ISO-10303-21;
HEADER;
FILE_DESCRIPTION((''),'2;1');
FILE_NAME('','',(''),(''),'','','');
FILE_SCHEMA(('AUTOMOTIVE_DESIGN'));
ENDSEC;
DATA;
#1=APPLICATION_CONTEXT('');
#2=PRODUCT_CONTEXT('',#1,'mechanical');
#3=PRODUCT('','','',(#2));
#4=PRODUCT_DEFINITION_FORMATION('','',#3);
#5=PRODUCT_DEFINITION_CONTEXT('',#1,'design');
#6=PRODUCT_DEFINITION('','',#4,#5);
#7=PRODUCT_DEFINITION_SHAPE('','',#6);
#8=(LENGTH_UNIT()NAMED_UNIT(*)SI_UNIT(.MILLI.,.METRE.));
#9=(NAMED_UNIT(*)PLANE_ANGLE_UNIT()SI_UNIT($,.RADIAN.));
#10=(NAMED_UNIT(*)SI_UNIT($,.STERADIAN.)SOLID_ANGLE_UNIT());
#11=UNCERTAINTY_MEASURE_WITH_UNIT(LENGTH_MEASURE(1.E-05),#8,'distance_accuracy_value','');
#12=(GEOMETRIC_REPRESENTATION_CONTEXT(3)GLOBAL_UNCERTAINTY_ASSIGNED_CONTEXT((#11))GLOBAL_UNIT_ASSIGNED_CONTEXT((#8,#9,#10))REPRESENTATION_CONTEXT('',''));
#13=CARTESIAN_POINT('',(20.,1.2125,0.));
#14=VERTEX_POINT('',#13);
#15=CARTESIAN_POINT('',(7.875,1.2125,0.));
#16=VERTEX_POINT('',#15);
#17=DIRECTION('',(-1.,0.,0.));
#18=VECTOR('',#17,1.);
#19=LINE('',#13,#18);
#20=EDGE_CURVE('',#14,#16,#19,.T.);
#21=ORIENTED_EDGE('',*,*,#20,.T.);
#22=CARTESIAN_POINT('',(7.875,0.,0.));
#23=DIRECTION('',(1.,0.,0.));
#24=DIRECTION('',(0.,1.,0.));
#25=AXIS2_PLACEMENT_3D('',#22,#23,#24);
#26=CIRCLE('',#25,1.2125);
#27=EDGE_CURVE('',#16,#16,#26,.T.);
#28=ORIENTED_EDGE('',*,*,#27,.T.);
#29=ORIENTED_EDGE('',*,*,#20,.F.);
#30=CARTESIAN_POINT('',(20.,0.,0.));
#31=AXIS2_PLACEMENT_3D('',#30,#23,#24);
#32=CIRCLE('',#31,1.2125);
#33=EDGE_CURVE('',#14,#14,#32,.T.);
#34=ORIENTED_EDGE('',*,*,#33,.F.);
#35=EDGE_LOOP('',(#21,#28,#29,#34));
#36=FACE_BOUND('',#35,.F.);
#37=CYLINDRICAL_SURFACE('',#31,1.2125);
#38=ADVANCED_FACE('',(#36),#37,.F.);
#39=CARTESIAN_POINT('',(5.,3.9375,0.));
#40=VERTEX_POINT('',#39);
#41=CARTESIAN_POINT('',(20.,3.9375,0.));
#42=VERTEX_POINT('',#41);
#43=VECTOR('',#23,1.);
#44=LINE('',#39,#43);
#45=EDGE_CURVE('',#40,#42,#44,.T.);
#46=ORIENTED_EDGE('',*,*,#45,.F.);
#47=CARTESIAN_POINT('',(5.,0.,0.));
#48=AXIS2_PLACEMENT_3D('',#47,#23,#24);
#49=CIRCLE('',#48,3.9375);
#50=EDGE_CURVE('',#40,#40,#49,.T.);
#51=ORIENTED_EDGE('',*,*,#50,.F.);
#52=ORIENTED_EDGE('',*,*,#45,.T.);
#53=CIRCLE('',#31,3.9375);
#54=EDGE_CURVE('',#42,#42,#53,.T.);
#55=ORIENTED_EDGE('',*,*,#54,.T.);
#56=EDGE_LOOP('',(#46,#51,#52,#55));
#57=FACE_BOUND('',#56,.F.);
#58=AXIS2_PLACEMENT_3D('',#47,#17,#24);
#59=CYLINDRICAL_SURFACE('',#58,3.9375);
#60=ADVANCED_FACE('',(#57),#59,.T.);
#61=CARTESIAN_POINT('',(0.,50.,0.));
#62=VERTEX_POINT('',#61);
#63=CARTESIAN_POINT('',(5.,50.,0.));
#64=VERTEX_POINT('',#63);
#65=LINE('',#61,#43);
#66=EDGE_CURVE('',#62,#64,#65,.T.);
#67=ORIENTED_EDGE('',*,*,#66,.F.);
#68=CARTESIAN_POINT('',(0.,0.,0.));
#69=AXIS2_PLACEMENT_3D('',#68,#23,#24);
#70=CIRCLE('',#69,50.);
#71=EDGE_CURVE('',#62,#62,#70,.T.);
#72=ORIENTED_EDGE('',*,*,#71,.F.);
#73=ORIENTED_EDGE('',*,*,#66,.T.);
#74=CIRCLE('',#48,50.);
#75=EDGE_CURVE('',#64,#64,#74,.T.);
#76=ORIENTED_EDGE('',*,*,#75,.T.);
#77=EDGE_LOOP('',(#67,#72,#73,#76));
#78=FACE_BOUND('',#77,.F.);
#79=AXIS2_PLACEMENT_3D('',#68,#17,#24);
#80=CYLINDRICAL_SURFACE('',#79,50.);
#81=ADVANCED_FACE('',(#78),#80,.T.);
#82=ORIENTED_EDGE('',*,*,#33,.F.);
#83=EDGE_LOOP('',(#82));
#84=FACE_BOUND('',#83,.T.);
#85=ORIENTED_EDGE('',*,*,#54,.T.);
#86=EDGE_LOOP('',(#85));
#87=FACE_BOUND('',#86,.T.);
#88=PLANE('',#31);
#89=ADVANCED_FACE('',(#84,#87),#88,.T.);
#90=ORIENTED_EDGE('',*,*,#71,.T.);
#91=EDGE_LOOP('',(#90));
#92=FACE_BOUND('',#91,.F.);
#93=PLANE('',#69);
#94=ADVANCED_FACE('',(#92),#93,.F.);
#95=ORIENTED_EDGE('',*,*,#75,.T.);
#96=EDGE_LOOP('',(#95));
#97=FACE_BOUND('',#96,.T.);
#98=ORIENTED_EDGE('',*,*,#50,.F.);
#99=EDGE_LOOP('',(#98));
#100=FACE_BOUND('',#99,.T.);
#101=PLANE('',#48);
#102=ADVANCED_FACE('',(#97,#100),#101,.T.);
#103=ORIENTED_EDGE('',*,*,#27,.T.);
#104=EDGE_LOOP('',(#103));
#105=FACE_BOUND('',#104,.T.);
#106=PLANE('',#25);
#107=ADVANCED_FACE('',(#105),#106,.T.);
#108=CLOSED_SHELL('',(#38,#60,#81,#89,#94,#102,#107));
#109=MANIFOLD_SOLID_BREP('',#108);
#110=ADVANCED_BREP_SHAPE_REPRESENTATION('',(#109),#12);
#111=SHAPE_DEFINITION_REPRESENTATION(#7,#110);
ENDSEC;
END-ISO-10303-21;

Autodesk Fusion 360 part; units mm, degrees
sketch "Sketch1" plane through (0, 0, 0) normal (1, 0, 0) x (0, 1, 0)
  circle A0 centre (0, 0) radius 50
  dimension "d1" = 100
extrude "Extrude1" add sketch "Sketch1" along normal blind 5
sketch "Sketch2" plane through (5, 0, 0) normal (1, 0, 0) x (0, 1, 0)
  circle A0 centre (0, 0) radius 50
  circle A1 centre (0, 0) radius 3.9375
  dimension "d4" = 7.875
extrude "Extrude3" add sketch "Sketch2" along normal blind 15 contours A1
sketch "Sketch3" plane through (20, 0, 0) normal (1, 0, 0) x (0, 1, 0)
  circle A0 centre (0, 0) radius 3.9375
  circle A1 centre (0, 0) radius 1.2125
  dimension "d10" = 2.425
extrude "Extrude4" cut sketch "Sketch3" against normal blind 12.125 contours A1
sketch "Sketch4" plane through (5, 0, 0) normal (1, 0, 0) x (0, 1, 0)
  circle A0 centre (0, 0) radius 50
  line L0 (-33.6779, 28.9291) -> (-27.8766, 32.541)
  line L1 (-27.8766, 32.541) -> (-24.8659, 32.541)
  spline S0 degree 3 poles (-24.8659, 32.541) (-24.773, 32.541) (-24.6881, 32.4676) (-24.6881, 32.363) knots 0 0 0 0 1 1 1 1
  spline S1 degree 3 poles (-24.6881, 32.363) (-24.6881, 32.2781) (-24.7268, 32.2432) (-24.773, 32.2162) knots 0 0 0 0 1 1 1 1
  line L2 (-24.773, 32.2162) -> (-27.6216, 30.5068)
  spline S2 degree 3 poles (-27.6216, 30.5068) (-27.8071, 30.3947) (-27.8728, 30.1742) (-27.8728, 30.008) knots 0 0 0 0 1 1 1 1
  line L3 (-27.8728, 30.008) -> (-27.8766, 28.9291)
  line L4 (-27.8766, 28.9291) -> (-24.2551, 28.9291)
  line L5 (-24.2551, 28.9291) -> (-24.2551, 35.1902)
  spline S3 degree 3 poles (-24.2551, 35.1902) (-24.2551, 35.31) (-24.348, 35.4144) (-24.4871, 35.4144) knots 0 0 0 0 1 1 1 1
  line L6 (-24.4871, 35.4144) -> (-27.9423, 35.4144)
  line L7 (-27.9423, 35.4144) -> (-33.7281, 31.8179)
  line L8 (-33.7281, 31.8179) -> (-33.7281, 28.9291)
  line L9 (-33.7281, 28.9291) -> (-33.6779, 28.9291)
  line L10 (13.8915, 28.9289) -> (19.1092, 28.9289)
  line L11 (19.1092, 28.9289) -> (19.1092, 30.3328)
  line L12 (19.1092, 30.3328) -> (15.5457, 30.3328)
  line L13 (15.5457, 30.3328) -> (15.5457, 31.5083)
  line L14 (15.5457, 31.5083) -> (18.4135, 31.5083)
  line L15 (18.4135, 31.5083) -> (18.4135, 32.9161)
  line L16 (18.4135, 32.9161) -> (15.5457, 32.9161)
  line L17 (15.5457, 32.9161) -> (15.5457, 34.0104)
  line L18 (15.5457, 34.0104) -> (19.1092, 34.0104)
  line L19 (19.1092, 34.0104) -> (19.1092, 35.4144)
  line L20 (19.1092, 35.4144) -> (13.8915, 35.4144)
  line L21 (13.8915, 35.4144) -> (13.8915, 28.9289)
  line L22 (-18.8945, 35.4144) -> (-21.3798, 28.9289)
  line L23 (-21.3798, 28.9289) -> (-19.6714, 28.9289)
  line L24 (-19.6714, 28.9289) -> (-19.2386, 30.1433)
  line L25 (-19.2386, 30.1433) -> (-16.4635, 30.1433)
  line L26 (-16.4635, 30.1433) -> (-16.0384, 28.9289)
  line L27 (-16.0384, 28.9289) -> (-14.2721, 28.9289)
  line L28 (-14.2721, 28.9289) -> (-16.7881, 35.4144)
  line L29 (-16.7881, 35.4144) -> (-18.8945, 35.4144)
  line L30 (-18.7477, 31.5238) -> (-17.8394, 34.0646)
  line L31 (-17.8394, 34.0646) -> (-16.9467, 31.5238)
  line L32 (-16.9467, 31.5238) -> (-18.7477, 31.5238)
  line L33 (-7.1839, 34.0104) -> (-5.093, 34.0104)
  line L34 (-5.093, 34.0104) -> (-5.093, 28.9289)
  line L35 (-5.093, 28.9289) -> (-3.4426, 28.9289)
  line L36 (-3.4426, 28.9289) -> (-3.4426, 34.0104)
  line L37 (-3.4426, 34.0104) -> (-1.3594, 34.0104)
  line L38 (-1.3594, 34.0104) -> (-1.3594, 35.4144)
  line L39 (-1.3594, 35.4144) -> (-7.1839, 35.4144)
  line L40 (-7.1839, 35.4144) -> (-7.1839, 34.0104)
  spline S4 degree 3 poles (-9.5878, 31.4272) (-9.5878, 30.584) (-10.1057, 30.2437) (-10.9908, 30.2437) knots 0 0 0 0 1 1 1 1
  spline S5 degree 3 poles (-10.9908, 30.2437) (-11.8488, 30.2437) (-12.4092, 30.5995) (-12.4092, 31.4272) knots 0 0 0 0 1 1 1 1
  line L41 (-12.4092, 31.4272) -> (-12.4092, 35.4376)
  line L42 (-12.4092, 35.4376) -> (-14.0634, 35.4376)
  line L43 (-14.0634, 35.4376) -> (-14.0634, 31.2377)
  spline S6 degree 3 poles (-14.0634, 31.2377) (-14.0634, 29.366) (-12.3937, 28.782) (-10.9947, 28.782) knots 0 0 0 0 1 1 1 1
  spline S7 degree 3 poles (-10.9947, 28.782) (-9.6033, 28.782) (-7.9414, 29.366) (-7.9414, 31.2377) knots 0 0 0 0 1 1 1 1
  line L44 (-7.9414, 31.2377) -> (-7.9414, 35.4376)
  line L45 (-7.9414, 35.4376) -> (-9.5955, 35.4376)
  line L46 (-9.5955, 35.4376) -> (-9.5955, 31.4272)
  line L47 (-9.5955, 31.4272) -> (-9.5878, 31.4272)
  line L48 (32.7484, 35.4144) -> (30.7811, 35.4144)
  line L49 (30.7811, 35.4144) -> (28.4237, 32.7807)
  line L50 (28.4237, 32.7807) -> (28.4237, 35.4144)
  line L51 (28.4237, 35.4144) -> (26.7693, 35.4144)
  line L52 (26.7693, 35.4144) -> (26.7771, 28.9289)
  line L53 (26.7771, 28.9289) -> (28.4237, 28.9289)
  line L54 (28.4237, 28.9289) -> (28.4237, 31.3923)
  line L55 (28.4237, 31.3923) -> (30.6575, 28.9289)
  line L56 (30.6575, 28.9289) -> (32.7484, 28.9289)
  line L57 (32.7484, 28.9289) -> (29.7338, 32.131)
  line L58 (29.7338, 32.131) -> (32.7484, 35.4144)
  line L59 (10.0033, 35.4144) -> (6.9732, 35.4144)
  line L60 (6.9732, 35.4144) -> (6.9732, 28.9289)
  line L61 (6.9732, 28.9289) -> (10.0033, 28.9289)
  spline S8 degree 3 poles (10.0033, 28.9289) (12.3262, 28.9289) (12.9678, 29.7952) (12.9678, 32.2199) knots 0 0 0 0 1 1 1 1
  spline S9 degree 3 poles (12.9678, 32.2199) (12.9678, 34.4978) (12.3532, 35.4144) (10.0033, 35.4144) knots 0 0 0 0 1 1 1 1
  line L62 (9.9377, 30.3328) -> (8.6236, 30.3328)
  line L63 (8.6236, 30.3328) -> (8.6236, 34.0104)
  line L64 (8.6236, 34.0104) -> (9.9377, 34.0104)
  spline S10 degree 3 poles (9.9377, 34.0104) (10.9735, 34.0104) (11.2827, 33.7283) (11.2827, 32.2199) knots 0 0 0 0 1 1 1 1
  spline S11 degree 3 poles (11.2827, 32.2199) (11.2827, 30.8432) (10.9348, 30.3328) (9.9377, 30.3328) knots 0 0 0 0 1 1 1 1
  line L65 (24.1065, 32.7458) -> (22.5992, 32.9161)
  spline S12 degree 3 poles (22.5992, 32.9161) (21.7179, 33.0127) (21.4976, 33.2332) (21.4976, 33.531) knots 0 0 0 0 1 1 1 1
  spline S13 degree 3 poles (21.4976, 33.531) (21.4976, 33.8636) (21.9499, 34.1613) (22.8349, 34.1613) knots 0 0 0 0 1 1 1 1
  spline S14 degree 3 poles (22.8349, 34.1613) (23.6852, 34.1613) (24.1297, 33.8442) (24.2109, 33.3685) knots 0 0 0 0 1 1 1 1
  line L66 (24.2109, 33.3685) -> (25.8303, 33.3685)
  spline S15 degree 3 poles (25.8303, 33.3685) (25.7489, 34.7415) (24.6012, 35.5922) (22.9238, 35.5922) knots 0 0 0 0 1 1 1 1
  spline S16 degree 3 poles (22.9238, 35.5922) (20.9295, 35.5922) (19.9286, 34.7994) (19.9286, 33.3955) knots 0 0 0 0 1 1 1 1
  spline S17 degree 3 poles (19.9286, 33.3955) (19.9286, 32.2547) (20.5933, 31.7171) (21.9691, 31.5703) knots 0 0 0 0 1 1 1 1
  line L67 (21.9691, 31.5703) -> (23.4997, 31.4077)
  spline S18 degree 3 poles (23.4997, 31.4077) (24.0833, 31.3421) (24.35, 31.1178) (24.35, 30.8239) knots 0 0 0 0 1 1 1 1
  spline S19 degree 3 poles (24.35, 30.8239) (24.35, 30.4914) (23.9596, 30.1935) (23.0204, 30.1935) knots 0 0 0 0 1 1 1 1
  spline S20 degree 3 poles (23.0204, 30.1935) (21.9344, 30.1935) (21.4976, 30.4681) (21.4242, 31.0212) knots 0 0 0 0 1 1 1 1
  line L68 (21.4242, 31.0212) -> (19.8357, 31.0212)
  spline S21 degree 3 poles (19.8357, 31.0212) (19.9091, 29.5283) (20.8793, 28.7665) (22.9625, 28.7665) knots 0 0 0 0 1 1 1 1
  spline S22 degree 3 poles (22.9625, 28.7665) (24.8639, 28.7665) (25.9267, 29.6018) (25.9267, 30.8587) knots 0 0 0 0 1 1 1 1
  spline S23 degree 3 poles (25.9267, 30.8587) (25.9267, 31.953) (25.2969, 32.6105) (24.1065, 32.7458) knots 0 0 0 0 1 1 1 1
  spline S24 degree 3 poles (2.4861, 35.5922) (0.1285, 35.5922) (-1.0927, 34.142) (-1.0927, 32.189) knots 0 0 0 0 1 1 1 1
  spline S25 degree 3 poles (-1.0927, 32.189) (-1.0927, 30.2282) (0.1285, 28.7703) (2.4861, 28.7703) knots 0 0 0 0 1 1 1 1
  spline S26 degree 3 poles (2.4861, 28.7703) (4.8515, 28.7703) (6.0729, 30.2282) (6.0729, 32.189) knots 0 0 0 0 1 1 1 1
  spline S27 degree 3 poles (6.0729, 32.189) (6.0767, 34.142) (4.8515, 35.5922) (2.4861, 35.5922) knots 0 0 0 0 1 1 1 1
  spline S28 degree 3 poles (2.4861, 30.2282) (1.2647, 30.2282) (0.5924, 30.9747) (0.5924, 32.189) knots 0 0 0 0 1 1 1 1
  spline S29 degree 3 poles (0.5924, 32.189) (0.5924, 33.3802) (1.2647, 34.1343) (2.4861, 34.1343) knots 0 0 0 0 1 1 1 1
  spline S30 degree 3 poles (2.4861, 34.1343) (3.719, 34.1343) (4.38, 33.3802) (4.38, 32.189) knots 0 0 0 0 1 1 1 1
  spline S31 degree 3 poles (4.38, 32.189) (4.3838, 30.9708) (3.719, 30.2282) (2.4861, 30.2282) knots 0 0 0 0 1 1 1 1
extrude "Extrude5" cut sketch "Sketch4" along normal blind 1 contours L0 L1 S0 S1 L2 S2 L3 L4 L5 S3 L6 L7 L8 L9 | L10 L11 L12 L13 L14 L15 L16 L17 L18 L19 L20 L21 | L22 L23 L24 L25 L26 L27 L28 L29 | L33 L34 L35 L36 L37 L38 L39 L40 | S4 S5 L41 L42 L43 S6 S7 L44 L45 L46 L47 | L48 L49 L50 L51 L52 L53 L54 L55 L56 L57 L58 | L59 L60 L61 S8 S9 | L65 S12 S13 S14 L66 S15 S16 S17 L67 S18 S19 S20 L68 S21 S22 S23 | S24 S25 S26 S27
sketch "Sketch5" plane through (5, 0, 0) normal (1, 0, 0) x (0, 1, 0)
  circle A0 centre (0, 0) radius 50
  circle A1 centre (0, 0) radius 3.9375
  spline S0 degree 3 poles (6.2324, -42.9698) (7.0803, -42.8865) (7.5571, -42.7606) (8.0991, -42.484) knots 0 0 0 0 1 1 1 1
  spline S1 degree 3 poles (8.0991, -42.484) (8.5579, -42.2478) (9.0099, -41.7778) (9.2573, -41.2785) knots 0 0 0 0 1 1 1 1
  spline S2 degree 3 poles (9.2573, -41.2785) (9.3293, -41.1301) (9.4327, -40.831) (9.4485, -40.723) knots 0 0 0 0 1 1 1 1
  spline S3 degree 3 poles (9.4485, -40.723) (9.453, -40.6871) (9.4574, -40.6556) (9.4597, -40.6556) knots 0 0 0 0 1 1 1 1
  spline S4 degree 3 poles (9.4597, -40.6556) (9.4619, -40.6556) (9.4664, -40.6263) (9.4709, -40.5881) knots 0 0 0 0 1 1 1 1
  spline S5 degree 3 poles (9.4709, -40.5881) (9.4732, -40.5521) (9.4889, -40.4352) (9.5047, -40.3295) knots 0 0 0 0 1 1 1 1
  spline S6 degree 3 poles (9.5047, -40.3295) (9.5429, -40.0619) (9.5384, -39.4276) (9.4934, -39.1038) knots 0 0 0 0 1 1 1 1
  spline S7 degree 3 poles (9.4934, -39.1038) (9.4732, -38.9554) (9.4552, -38.7957) (9.4574, -38.7507) knots 0 0 0 0 1 1 1 1
  spline S8 degree 3 poles (9.4574, -38.7507) (9.4574, -38.7035) (9.4462, -38.6608) (9.435, -38.654) knots 0 0 0 0 1 1 1 1
  spline S9 degree 3 poles (9.435, -38.654) (9.4237, -38.645) (9.4192, -38.6315) (9.426, -38.6203) knots 0 0 0 0 1 1 1 1
  spline S10 degree 3 poles (9.426, -38.6203) (9.4327, -38.609) (9.426, -38.5528) (9.4147, -38.4921) knots 0 0 0 0 1 1 1 1
  line L0 (9.4147, -38.4921) -> (9.39, -38.3796)
  line L1 (9.39, -38.3796) -> (9.1718, -38.3526)
  spline S11 degree 3 poles (9.1718, -38.3526) (8.4657, -38.2627) (7.5346, -38.076) (7.0443, -37.9298) knots 0 0 0 0 1 1 1 1
  spline S12 degree 3 poles (7.0443, -37.9298) (7.0196, -37.9231) (7.0601, -37.9658) (7.1343, -38.0243) knots 0 0 0 0 1 1 1 1
  spline S13 degree 3 poles (7.1343, -38.0243) (7.6313, -38.4246) (7.9956, -38.9351) (8.1688, -39.4861) knots 0 0 0 0 1 1 1 1
  spline S14 degree 3 poles (8.1688, -39.4861) (8.2295, -39.675) (8.234, -39.7133) (8.234, -40.0708) knots 0 0 0 0 1 1 1 1
  spline S15 degree 3 poles (8.234, -40.0708) (8.234, -40.4284) (8.2295, -40.4667) (8.1688, -40.6556) knots 0 0 0 0 1 1 1 1
  spline S16 degree 3 poles (8.1688, -40.6556) (8.0563, -41.0177) (7.8697, -41.373) (7.6943, -41.5642) knots 0 0 0 0 1 1 1 1
  spline S17 degree 3 poles (7.6943, -41.5642) (7.4469, -41.834) (7.0061, -42.0319) (6.4888, -42.1084) knots 0 0 0 0 1 1 1 1
  spline S18 degree 3 poles (6.4888, -42.1084) (6.1807, -42.1534) (5.6005, -42.1219) (5.2069, -42.0409) knots 0 0 0 0 1 1 1 1
  spline S19 degree 3 poles (5.2069, -42.0409) (4.6627, -41.9285) (3.97, -41.6946) (3.437, -41.4427) knots 0 0 0 0 1 1 1 1
  line L2 (3.437, -41.4427) -> (3.2301, -41.3438)
  line L3 (3.2301, -41.3438) -> (3.2301, -41.9937)
  line L4 (3.2301, -41.9937) -> (3.2301, -42.6437)
  line L5 (3.2301, -42.6437) -> (3.3245, -42.6706)
  spline S20 degree 3 poles (3.3245, -42.6706) (3.6484, -42.7584) (4.3028, -42.8731) (4.7819, -42.927) knots 0 0 0 0 1 1 1 1
  spline S21 degree 3 poles (4.7819, -42.927) (5.0697, -42.9608) (6.0413, -42.99) (6.2324, -42.9698) knots 0 0 0 0 1 1 1 1
  line L6 (19.3956, -42.8213) -> (19.3888, -42.7021)
  line L7 (19.3888, -42.7021) -> (19.164, -42.6751)
  spline S22 degree 3 poles (19.164, -42.6751) (19.0403, -42.6616) (18.8648, -42.6437) (18.7726, -42.6347) knots 0 0 0 0 1 1 1 1
  spline S23 degree 3 poles (18.7726, -42.6347) (18.4825, -42.6122) (17.909, -42.4975) (17.2298, -42.3288) knots 0 0 0 0 1 1 1 1
  spline S24 degree 3 poles (17.2298, -42.3288) (16.8948, -42.2456) (16.8475, -42.2276) (16.8025, -42.1601) knots 0 0 0 0 1 1 1 1
  spline S25 degree 3 poles (16.8025, -42.1601) (16.7373, -42.0612) (16.7598, -41.9442) (16.8948, -41.6609) knots 0 0 0 0 1 1 1 1
  spline S26 degree 3 poles (16.8948, -41.6609) (17.0792, -41.2808) (17.5357, -40.28) (17.5447, -40.2395) knots 0 0 0 0 1 1 1 1
  spline S27 degree 3 poles (17.5447, -40.2395) (17.5537, -40.2035) (17.6594, -39.9674) (17.8686, -39.5311) knots 0 0 0 0 1 1 1 1
  spline S28 degree 3 poles (17.8686, -39.5311) (17.963, -39.3332) (18.5702, -38.0018) (18.5792, -37.9771) knots 0 0 0 0 1 1 1 1
  spline S29 degree 3 poles (18.5792, -37.9771) (18.5792, -37.9748) (18.7569, -37.9456) (18.9728, -37.9141) knots 0 0 0 0 1 1 1 1
  spline S30 degree 3 poles (18.9728, -37.9141) (19.5305, -37.8286) (20.4504, -37.6667) (21.0418, -37.552) knots 0 0 0 0 1 1 1 1
  spline S31 degree 3 poles (21.0418, -37.552) (21.5456, -37.4508) (21.6738, -37.4283) (21.739, -37.4261) knots 0 0 0 0 1 1 1 1
  spline S32 degree 3 poles (21.739, -37.4261) (21.9414, -37.4148) (23.8418, -36.9448) (24.359, -36.7784) knots 0 0 0 0 1 1 1 1
  spline S33 degree 3 poles (24.359, -36.7784) (24.5322, -36.7221) (24.4445, -36.7177) (24.1994, -36.7671) knots 0 0 0 0 1 1 1 1
  spline S34 degree 3 poles (24.1994, -36.7671) (24.0779, -36.7919) (23.97, -36.8009) (23.8598, -36.7896) knots 0 0 0 0 1 1 1 1
  spline S35 degree 3 poles (23.8598, -36.7896) (23.7248, -36.7784) (23.6079, -36.7941) (23.1626, -36.8773) knots 0 0 0 0 1 1 1 1
  spline S36 degree 3 poles (23.1626, -36.8773) (21.6558, -37.1562) (20.1063, -37.3384) (19.2292, -37.3384) knots 0 0 0 0 1 1 1 1
  spline S37 degree 3 poles (19.2292, -37.3384) (18.9458, -37.3384) (18.9053, -37.3339) (18.9053, -37.3024) knots 0 0 0 0 1 1 1 1
  spline S38 degree 3 poles (18.9053, -37.3024) (18.9053, -37.2664) (19.3079, -36.3601) (19.3641, -36.2701) knots 0 0 0 0 1 1 1 1
  spline S39 degree 3 poles (19.3641, -36.2701) (19.4023, -36.2094) (19.6272, -35.7169) (19.6362, -35.6741) knots 0 0 0 0 1 1 1 1
  spline S40 degree 3 poles (19.6362, -35.6741) (19.6452, -35.6337) (20.1647, -34.4957) (20.2412, -34.3472) knots 0 0 0 0 1 1 1 1
  spline S41 degree 3 poles (20.2412, -34.3472) (20.3042, -34.2258) (20.6145, -33.5444) (20.6145, -33.5264) knots 0 0 0 0 1 1 1 1
  spline S42 degree 3 poles (20.6145, -33.5264) (20.6145, -33.5084) (21.0598, -32.5346) (21.1565, -32.3412) knots 0 0 0 0 1 1 1 1
  line L8 (21.1565, -32.3412) -> (21.2442, -32.1658)
  line L9 (21.2442, -32.1658) -> (20.7427, -32.1658)
  line L10 (20.7427, -32.1658) -> (20.2412, -32.1658)
  line L11 (20.2412, -32.1658) -> (20.0883, -32.4874)
  spline S43 degree 3 poles (20.0883, -32.4874) (20.0028, -32.6628) (19.8634, -32.9641) (19.7779, -33.1553) knots 0 0 0 0 1 1 1 1
  spline S44 degree 3 poles (19.7779, -33.1553) (19.4023, -33.9874) (19.3191, -34.1718) (19.1977, -34.426) knots 0 0 0 0 1 1 1 1
  spline S45 degree 3 poles (19.1977, -34.426) (19.0403, -34.7543) (18.6782, -35.5414) (18.6354, -35.6516) knots 0 0 0 0 1 1 1 1
  spline S46 degree 3 poles (18.6354, -35.6516) (18.6175, -35.6944) (18.5095, -35.9328) (18.3926, -36.1802) knots 0 0 0 0 1 1 1 1
  spline S47 degree 3 poles (18.3926, -36.1802) (18.2779, -36.4275) (18.1047, -36.7986) (18.0102, -37.0055) knots 0 0 0 0 1 1 1 1
  spline S48 degree 3 poles (18.0102, -37.0055) (17.8416, -37.3698) (17.8348, -37.3833) (17.7584, -37.3991) knots 0 0 0 0 1 1 1 1
  spline S49 degree 3 poles (17.7584, -37.3991) (17.6302, -37.4283) (15.5206, -37.4193) (14.9696, -37.3878) knots 0 0 0 0 1 1 1 1
  spline S50 degree 3 poles (14.9696, -37.3878) (14.5693, -37.3631) (14.4501, -37.3496) (14.3962, -37.3181) knots 0 0 0 0 1 1 1 1
  spline S51 degree 3 poles (14.3962, -37.3181) (14.3399, -37.2866) (14.2995, -37.2124) (14.1533, -36.8773) knots 0 0 0 0 1 1 1 1
  spline S52 degree 3 poles (14.1533, -36.8773) (13.8991, -36.2903) (13.5056, -35.3503) (13.4966, -35.3031) knots 0 0 0 0 1 1 1 1
  spline S53 degree 3 poles (13.4966, -35.3031) (13.4921, -35.2896) (13.4269, -35.1321) (13.3504, -34.9545) knots 0 0 0 0 1 1 1 1
  spline S54 degree 3 poles (13.3504, -34.9545) (13.2739, -34.7746) (13.0918, -34.345) (12.9478, -33.9987) knots 0 0 0 0 1 1 1 1
  spline S55 degree 3 poles (12.9478, -33.9987) (12.8017, -33.6523) (12.651, -33.3037) (12.615, -33.2228) knots 0 0 0 0 1 1 1 1
  spline S56 degree 3 poles (12.615, -33.2228) (12.5408, -33.0586) (12.4845, -32.9259) (12.4845, -32.9057) knots 0 0 0 0 1 1 1 1
  spline S57 degree 3 poles (12.4845, -32.9057) (12.4845, -32.8989) (12.4238, -32.746) (12.3496, -32.5661) knots 0 0 0 0 1 1 1 1
  line L12 (12.3496, -32.5661) -> (12.2147, -32.24)
  line L13 (12.2147, -32.24) -> (11.965, -32.2265)
  spline S58 degree 3 poles (11.965, -32.2265) (11.5962, -32.2085) (11.3353, -32.123) (11.034, -31.9184) knots 0 0 0 0 1 1 1 1
  spline S59 degree 3 poles (11.034, -31.9184) (10.8293, -31.7767) (10.5167, -31.617) (10.5167, -31.653) knots 0 0 0 0 1 1 1 1
  spline S60 degree 3 poles (10.5167, -31.653) (10.5167, -31.671) (10.528, -31.6957) (10.5437, -31.7115) knots 0 0 0 0 1 1 1 1
  spline S61 degree 3 poles (10.5437, -31.7115) (10.5594, -31.7272) (10.5639, -31.7385) (10.5549, -31.7385) knots 0 0 0 0 1 1 1 1
  spline S62 degree 3 poles (10.5549, -31.7385) (10.5414, -31.7385) (10.6449, -31.9948) (10.7416, -32.1995) knots 0 0 0 0 1 1 1 1
  spline S63 degree 3 poles (10.7416, -32.1995) (10.7641, -32.249) (10.899, -32.5683) (11.043, -32.9079) knots 0 0 0 0 1 1 1 1
  spline S64 degree 3 poles (11.043, -32.9079) (11.1846, -33.2475) (11.3623, -33.6726) (11.4388, -33.8525) knots 0 0 0 0 1 1 1 1
  spline S65 degree 3 poles (11.4388, -33.8525) (11.5152, -34.0324) (11.5805, -34.1943) (11.585, -34.2123) knots 0 0 0 0 1 1 1 1
  spline S66 degree 3 poles (11.585, -34.2123) (11.5917, -34.2528) (12.0258, -35.2963) (12.1022, -35.4605) knots 0 0 0 0 1 1 1 1
  spline S67 degree 3 poles (12.1022, -35.4605) (12.1809, -35.6314) (12.5655, -36.558) (12.5745, -36.5985) knots 0 0 0 0 1 1 1 1
  spline S68 degree 3 poles (12.5745, -36.5985) (12.579, -36.6187) (12.6285, -36.7446) (12.6847, -36.8796) knots 0 0 0 0 1 1 1 1
  spline S69 degree 3 poles (12.6847, -36.8796) (12.7927, -37.1337) (12.8039, -37.1809) (12.7634, -37.1809) knots 0 0 0 0 1 1 1 1
  spline S70 degree 3 poles (12.7634, -37.1809) (12.7499, -37.1809) (12.489, -37.1495) (12.1832, -37.1112) knots 0 0 0 0 1 1 1 1
  spline S71 degree 3 poles (12.1832, -37.1112) (11.3758, -37.0123) (10.5729, -36.8818) (9.8195, -36.7289) knots 0 0 0 0 1 1 1 1
  spline S72 degree 3 poles (9.8195, -36.7289) (9.4552, -36.6547) (9.0999, -36.5827) (9.0324, -36.5692) knots 0 0 0 0 1 1 1 1
  spline S73 degree 3 poles (9.0324, -36.5692) (8.83, -36.531) (8.0968, -36.3331) (7.7955, -36.2386) knots 0 0 0 0 1 1 1 1
  spline S74 degree 3 poles (7.7955, -36.2386) (7.1455, -36.034) (6.174, -35.6404) (5.8051, -35.4357) knots 0 0 0 0 1 1 1 1
  spline S75 degree 3 poles (5.8051, -35.4357) (4.9258, -34.9455) (4.3186, -34.4102) (4.042, -33.875) knots 0 0 0 0 1 1 1 1
  spline S76 degree 3 poles (4.042, -33.875) (3.9003, -33.6006) (3.8733, -33.4949) (3.8913, -33.2745) knots 0 0 0 0 1 1 1 1
  spline S77 degree 3 poles (3.8913, -33.2745) (3.9318, -32.782) (4.1432, -32.3254) (4.5435, -31.8666) knots 0 0 0 0 1 1 1 1
  spline S78 degree 3 poles (4.5435, -31.8666) (5.0135, -31.3291) (6.012, -30.6814) (7.0128, -30.2631) knots 0 0 0 0 1 1 1 1
  spline S79 degree 3 poles (7.0128, -30.2631) (7.1568, -30.2047) (7.2737, -30.1529) (7.2715, -30.1484) knots 0 0 0 0 1 1 1 1
  spline S80 degree 3 poles (7.2715, -30.1484) (7.2647, -30.1417) (7.1568, -30.1709) (6.5473, -30.3464) knots 0 0 0 0 1 1 1 1
  spline S81 degree 3 poles (6.5473, -30.3464) (5.6207, -30.614) (4.6694, -31.0143) (4.1297, -31.3674) knots 0 0 0 0 1 1 1 1
  spline S82 degree 3 poles (4.1297, -31.3674) (4.0262, -31.4348) (3.9273, -31.4911) (3.9115, -31.4911) knots 0 0 0 0 1 1 1 1
  spline S83 degree 3 poles (3.9115, -31.4911) (3.8958, -31.4911) (3.8823, -31.5023) (3.8823, -31.5136) knots 0 0 0 0 1 1 1 1
  spline S84 degree 3 poles (3.8823, -31.5136) (3.8823, -31.5271) (3.8733, -31.5361) (3.8598, -31.5361) knots 0 0 0 0 1 1 1 1
  spline S85 degree 3 poles (3.8598, -31.5361) (3.8485, -31.5361) (3.8193, -31.5495) (3.7991, -31.5675) knots 0 0 0 0 1 1 1 1
  spline S86 degree 3 poles (3.7991, -31.5675) (3.7766, -31.5855) (3.6574, -31.68) (3.5314, -31.7789) knots 0 0 0 0 1 1 1 1
  spline S87 degree 3 poles (3.5314, -31.7789) (3.2728, -31.9858) (2.9872, -32.2805) (2.832, -32.4986) knots 0 0 0 0 1 1 1 1
  spline S88 degree 3 poles (2.832, -32.4986) (2.7735, -32.5818) (2.7196, -32.6538) (2.7106, -32.6605) knots 0 0 0 0 1 1 1 1
  spline S89 degree 3 poles (2.7106, -32.6605) (2.6521, -32.7055) (2.4317, -33.2565) (2.4452, -33.3262) knots 0 0 0 0 1 1 1 1
  spline S90 degree 3 poles (2.4452, -33.3262) (2.4474, -33.3375) (2.4474, -33.351) (2.4429, -33.3577) knots 0 0 0 0 1 1 1 1
  spline S91 degree 3 poles (2.4429, -33.3577) (2.4384, -33.3712) (2.4384, -33.7468) (2.4429, -33.7625) knots 0 0 0 0 1 1 1 1
  spline S92 degree 3 poles (2.4429, -33.7625) (2.4452, -33.7693) (2.4497, -33.7985) (2.4564, -33.83) knots 0 0 0 0 1 1 1 1
  spline S93 degree 3 poles (2.4564, -33.83) (2.4699, -33.9154) (2.6296, -34.2258) (2.7623, -34.426) knots 0 0 0 0 1 1 1 1
  spline S94 degree 3 poles (2.7623, -34.426) (2.895, -34.6239) (3.2886, -35.0444) (3.5202, -35.2333) knots 0 0 0 0 1 1 1 1
  spline S95 degree 3 poles (3.5202, -35.2333) (3.6551, -35.3435) (3.952, -35.5459) (4.3141, -35.7753) knots 0 0 0 0 1 1 1 1
  spline S96 degree 3 poles (4.3141, -35.7753) (4.584, -35.9463) (5.5285, -36.3916) (5.6927, -36.4253) knots 0 0 0 0 1 1 1 1
  spline S97 degree 3 poles (5.6927, -36.4253) (5.7174, -36.432) (5.9041, -36.4973) (6.1065, -36.5737) knots 0 0 0 0 1 1 1 1
  spline S98 degree 3 poles (6.1065, -36.5737) (6.3089, -36.6502) (6.6935, -36.7761) (6.9611, -36.8548) knots 0 0 0 0 1 1 1 1
  spline S99 degree 3 poles (6.9611, -36.8548) (7.2287, -36.9358) (7.4761, -37.01) (7.5143, -37.0213) knots 0 0 0 0 1 1 1 1
  spline S100 degree 3 poles (7.5143, -37.0213) (7.719, -37.0887) (9.1426, -37.4171) (9.3203, -37.4396) knots 0 0 0 0 1 1 1 1
  spline S101 degree 3 poles (9.3203, -37.4396) (9.3652, -37.4463) (9.444, -37.4576) (9.4934, -37.4621) knots 0 0 0 0 1 1 1 1
  spline S102 degree 3 poles (9.4934, -37.4621) (9.5429, -37.4688) (9.7453, -37.5048) (9.9432, -37.5408) knots 0 0 0 0 1 1 1 1
  spline S103 degree 3 poles (9.9432, -37.5408) (10.8158, -37.6982) (12.3564, -37.9029) (13.0468, -37.9501) knots 0 0 0 0 1 1 1 1
  line L14 (13.0468, -37.9501) -> (13.1367, -37.9568)
  line L15 (13.1367, -37.9568) -> (13.2829, -38.3077)
  spline S104 degree 3 poles (13.2829, -38.3077) (13.3639, -38.5011) (13.4493, -38.7035) (13.4718, -38.7575) knots 0 0 0 0 1 1 1 1
  spline S105 degree 3 poles (13.4718, -38.7575) (13.4966, -38.8114) (13.5348, -38.8991) (13.5573, -38.9531) knots 0 0 0 0 1 1 1 1
  spline S106 degree 3 poles (13.5573, -38.9531) (13.582, -39.0071) (13.6045, -39.0678) (13.609, -39.0881) knots 0 0 0 0 1 1 1 1
  spline S107 degree 3 poles (13.609, -39.0881) (13.6158, -39.1263) (14.1263, -40.37) (14.2095, -40.5544) knots 0 0 0 0 1 1 1 1
  spline S108 degree 3 poles (14.2095, -40.5544) (14.2905, -40.7275) (14.5896, -41.463) (14.5986, -41.5057) knots 0 0 0 0 1 1 1 1
  spline S109 degree 3 poles (14.5986, -41.5057) (14.6031, -41.5259) (14.6143, -41.5574) (14.6256, -41.5732) knots 0 0 0 0 1 1 1 1
  spline S110 degree 3 poles (14.6256, -41.5732) (14.6346, -41.5866) (14.6435, -41.6114) (14.6458, -41.6226) knots 0 0 0 0 1 1 1 1
  spline S111 degree 3 poles (14.6458, -41.6226) (14.6503, -41.6429) (14.8055, -42.0229) (15.0933, -42.7021) knots 0 0 0 0 1 1 1 1
  line L16 (15.0933, -42.7021) -> (15.1878, -42.927)
  line L17 (15.1878, -42.927) -> (17.2951, -42.9338)
  line L18 (17.2951, -42.9338) -> (19.4023, -42.9383)
  line L19 (19.4023, -42.9383) -> (19.3956, -42.8213)
  spline S112 degree 3 poles (15.9682, -41.301) (15.9457, -41.2853) (15.8085, -40.9682) (15.3295, -39.8235) knots 0 0 0 0 1 1 1 1
  spline S113 degree 3 poles (15.3295, -39.8235) (15.1855, -39.4771) (15.0439, -39.1443) (15.0146, -39.0813) knots 0 0 0 0 1 1 1 1
  spline S114 degree 3 poles (15.0146, -39.0813) (14.9854, -39.0206) (14.9629, -38.9554) (14.9629, -38.9419) knots 0 0 0 0 1 1 1 1
  spline S115 degree 3 poles (14.9629, -38.9419) (14.9629, -38.9261) (14.9562, -38.9126) (14.9472, -38.9126) knots 0 0 0 0 1 1 1 1
  spline S116 degree 3 poles (14.9472, -38.9126) (14.9382, -38.9126) (14.9314, -38.8991) (14.9314, -38.8856) knots 0 0 0 0 1 1 1 1
  spline S117 degree 3 poles (14.9314, -38.8856) (14.9314, -38.8699) (14.8639, -38.6922) (14.7785, -38.4921) knots 0 0 0 0 1 1 1 1
  spline S118 degree 3 poles (14.7785, -38.4921) (14.6863, -38.2694) (14.6323, -38.1143) (14.6413, -38.0895) knots 0 0 0 0 1 1 1 1
  spline S119 degree 3 poles (14.6413, -38.0895) (14.6548, -38.0558) (14.6818, -38.0535) (14.8977, -38.0693) knots 0 0 0 0 1 1 1 1
  spline S120 degree 3 poles (14.8977, -38.0693) (15.0304, -38.0783) (15.6601, -38.0895) (16.2965, -38.0918) knots 0 0 0 0 1 1 1 1
  spline S121 degree 3 poles (16.2965, -38.0918) (17.1039, -38.0963) (17.4547, -38.1053) (17.4615, -38.1233) knots 0 0 0 0 1 1 1 1
  spline S122 degree 3 poles (17.4615, -38.1233) (17.466, -38.1367) (17.4165, -38.2604) (17.3535, -38.3999) knots 0 0 0 0 1 1 1 1
  spline S123 degree 3 poles (17.3535, -38.3999) (17.2883, -38.5393) (17.2343, -38.6697) (17.2298, -38.6877) knots 0 0 0 0 1 1 1 1
  spline S124 degree 3 poles (17.2298, -38.6877) (17.2254, -38.708) (17.1511, -38.8789) (17.0612, -39.0701) knots 0 0 0 0 1 1 1 1
  spline S125 degree 3 poles (17.0612, -39.0701) (16.6474, -39.9651) (16.2223, -40.9052) (16.2223, -40.9322) knots 0 0 0 0 1 1 1 1
  spline S126 degree 3 poles (16.2223, -40.9322) (16.2223, -40.9457) (16.2111, -40.9592) (16.1998, -40.9592) knots 0 0 0 0 1 1 1 1
  spline S127 degree 3 poles (16.1998, -40.9592) (16.1863, -40.9592) (16.1818, -40.9659) (16.1908, -40.9727) knots 0 0 0 0 1 1 1 1
  spline S128 degree 3 poles (16.1908, -40.9727) (16.2021, -40.9862) (16.0896, -41.2313) (16.0424, -41.292) knots 0 0 0 0 1 1 1 1
  spline S129 degree 3 poles (16.0424, -41.292) (16.0177, -41.3235) (16.0019, -41.3258) (15.9682, -41.301) knots 0 0 0 0 1 1 1 1
  spline S130 degree 3 poles (2.1506, -42.5582) (2.1506, -42.5222) (2.1258, -42.5155) (1.9527, -42.502) knots 0 0 0 0 1 1 1 1
  spline S131 degree 3 poles (1.9527, -42.502) (0.682, -42.4008) (-0.2311, -41.9892) (-0.5549, -41.3685) knots 0 0 0 0 1 1 1 1
  spline S132 degree 3 poles (-0.5549, -41.3685) (-0.5976, -41.2853) (-0.6449, -41.1773) (-0.6584, -41.1279) knots 0 0 0 0 1 1 1 1
  spline S133 degree 3 poles (-0.6584, -41.1279) (-0.6764, -41.0649) (-0.6831, -39.756) (-0.6831, -36.612) knots 0 0 0 0 1 1 1 1
  line L20 (-0.6831, -36.612) -> (-0.6831, -32.1882)
  line L21 (-0.6831, -32.1882) -> (-1.1149, -32.1927)
  line L22 (-1.1149, -32.1927) -> (-1.549, -32.1995)
  line L23 (-1.549, -32.1995) -> (-1.549, -37.064)
  spline S134 degree 3 poles (-1.549, -37.064) (-1.549, -41.4202) (-1.5535, -41.9262) (-1.5827, -41.9262) knots 0 0 0 0 1 1 1 1
  spline S135 degree 3 poles (-1.5827, -41.9262) (-1.6029, -41.9262) (-1.6344, -41.897) (-1.6547, -41.8633) knots 0 0 0 0 1 1 1 1
  spline S136 degree 3 poles (-1.6547, -41.8633) (-1.6771, -41.8273) (-1.9088, -41.4944) (-2.1719, -41.1211) knots 0 0 0 0 1 1 1 1
  spline S137 degree 3 poles (-2.1719, -41.1211) (-2.435, -40.7478) (-2.7881, -40.2485) (-2.9546, -40.0101) knots 0 0 0 0 1 1 1 1
  spline S138 degree 3 poles (-2.9546, -40.0101) (-3.121, -39.774) (-3.2739, -39.5626) (-3.2941, -39.5446) knots 0 0 0 0 1 1 1 1
  spline S139 degree 3 poles (-3.2941, -39.5446) (-3.3121, -39.5244) (-3.4178, -39.3827) (-3.5258, -39.2275) knots 0 0 0 0 1 1 1 1
  spline S140 degree 3 poles (-3.5258, -39.2275) (-3.6337, -39.0723) (-3.9508, -38.6203) (-4.232, -38.2222) knots 0 0 0 0 1 1 1 1
  spline S141 degree 3 poles (-4.232, -38.2222) (-4.5131, -37.8241) (-4.9246, -37.2394) (-5.1473, -36.9223) knots 0 0 0 0 1 1 1 1
  spline S142 degree 3 poles (-5.1473, -36.9223) (-5.3699, -36.6075) (-5.5588, -36.3488) (-5.5701, -36.3488) knots 0 0 0 0 1 1 1 1
  spline S143 degree 3 poles (-5.5701, -36.3488) (-5.5791, -36.3488) (-5.5858, -36.3331) (-5.5858, -36.3151) knots 0 0 0 0 1 1 1 1
  spline S144 degree 3 poles (-5.5858, -36.3151) (-5.5858, -36.2971) (-5.5971, -36.2814) (-5.6083, -36.2814) knots 0 0 0 0 1 1 1 1
  spline S145 degree 3 poles (-5.6083, -36.2814) (-5.6218, -36.2814) (-5.6308, -36.2656) (-5.6308, -36.2476) knots 0 0 0 0 1 1 1 1
  spline S146 degree 3 poles (-5.6308, -36.2476) (-5.6308, -36.2274) (-5.6466, -36.2071) (-5.6645, -36.2004) knots 0 0 0 0 1 1 1 1
  spline S147 degree 3 poles (-5.6645, -36.2004) (-5.6825, -36.1914) (-5.6983, -36.1757) (-5.6983, -36.1599) knots 0 0 0 0 1 1 1 1
  spline S148 degree 3 poles (-5.6983, -36.1599) (-5.6983, -36.1464) (-5.759, -36.052) (-5.831, -35.9485) knots 0 0 0 0 1 1 1 1
  line L24 (-5.831, -35.9485) -> (-5.9637, -35.7641)
  line L25 (-5.9637, -35.7641) -> (-6.0626, -35.9035)
  spline S149 degree 3 poles (-6.0626, -35.9035) (-6.1188, -35.9822) (-6.355, -36.3286) (-6.5866, -36.6749) knots 0 0 0 0 1 1 1 1
  spline S150 degree 3 poles (-6.5866, -36.6749) (-6.8205, -37.0213) (-7.0589, -37.3698) (-7.1174, -37.4508) knots 0 0 0 0 1 1 1 1
  spline S151 degree 3 poles (-7.1174, -37.4508) (-7.2321, -37.6082) (-7.9068, -38.5978) (-8.7569, -39.8572) knots 0 0 0 0 1 1 1 1
  spline S152 degree 3 poles (-8.7569, -39.8572) (-9.0447, -40.2845) (-9.2989, -40.6556) (-9.3236, -40.6826) knots 0 0 0 0 1 1 1 1
  spline S153 degree 3 poles (-9.3236, -40.6826) (-9.3483, -40.7096) (-9.5485, -40.9974) (-9.7666, -41.3235) knots 0 0 0 0 1 1 1 1
  spline S154 degree 3 poles (-9.7666, -41.3235) (-9.987, -41.6496) (-10.1827, -41.9172) (-10.2029, -41.9217) knots 0 0 0 0 1 1 1 1
  spline S155 degree 3 poles (-10.2029, -41.9217) (-10.2389, -41.9285) (-10.2412, -41.6001) (-10.2412, -37.0595) knots 0 0 0 0 1 1 1 1
  line L26 (-10.2412, -37.0595) -> (-10.2412, -32.1882)
  line L27 (-10.2412, -32.1882) -> (-10.9721, -32.1927)
  line L28 (-10.9721, -32.1927) -> (-11.703, -32.1995)
  line L29 (-11.703, -32.1995) -> (-11.703, -37.3946)
  line L30 (-11.703, -37.3946) -> (-11.703, -42.5897)
  line L31 (-11.703, -42.5897) -> (-10.6752, -42.5942)
  line L32 (-10.6752, -42.5942) -> (-9.6452, -42.5987)
  line L33 (-9.6452, -42.5987) -> (-9.2516, -42.0432)
  spline S156 degree 3 poles (-9.2516, -42.0432) (-8.4195, -40.8737) (-8.0529, -40.3632) (-8.0349, -40.3565) knots 0 0 0 0 1 1 1 1
  spline S157 degree 3 poles (-8.0349, -40.3565) (-8.0237, -40.352) (-8.0147, -40.334) (-8.0147, -40.3182) knots 0 0 0 0 1 1 1 1
  spline S158 degree 3 poles (-8.0147, -40.3182) (-8.0147, -40.3002) (-8.0012, -40.2778) (-7.9855, -40.2688) knots 0 0 0 0 1 1 1 1
  spline S159 degree 3 poles (-7.9855, -40.2688) (-7.945, -40.2418) (-7.7448, -39.9651) (-7.7448, -39.9337) knots 0 0 0 0 1 1 1 1
  spline S160 degree 3 poles (-7.7448, -39.9337) (-7.7448, -39.9202) (-7.7291, -39.9022) (-7.7111, -39.8932) knots 0 0 0 0 1 1 1 1
  spline S161 degree 3 poles (-7.7111, -39.8932) (-7.6931, -39.8864) (-7.6774, -39.8662) (-7.6774, -39.846) knots 0 0 0 0 1 1 1 1
  spline S162 degree 3 poles (-7.6774, -39.846) (-7.6774, -39.828) (-7.6684, -39.8122) (-7.6549, -39.8122) knots 0 0 0 0 1 1 1 1
  spline S163 degree 3 poles (-7.6549, -39.8122) (-7.6436, -39.8122) (-7.6324, -39.7987) (-7.6324, -39.7807) knots 0 0 0 0 1 1 1 1
  spline S164 degree 3 poles (-7.6324, -39.7807) (-7.6324, -39.7627) (-7.6166, -39.7447) (-7.5987, -39.7358) knots 0 0 0 0 1 1 1 1
  spline S165 degree 3 poles (-7.5987, -39.7358) (-7.5807, -39.729) (-7.5649, -39.7088) (-7.5649, -39.6908) knots 0 0 0 0 1 1 1 1
  spline S166 degree 3 poles (-7.5649, -39.6908) (-7.5649, -39.6728) (-7.5559, -39.6548) (-7.5447, -39.6503) knots 0 0 0 0 1 1 1 1
  spline S167 degree 3 poles (-7.5447, -39.6503) (-7.5289, -39.6435) (-7.1331, -39.097) (-6.5124, -38.2222) knots 0 0 0 0 1 1 1 1
  spline S168 degree 3 poles (-6.5124, -38.2222) (-6.4045, -38.0715) (-6.301, -37.9478) (-6.283, -37.9478) knots 0 0 0 0 1 1 1 1
  spline S169 degree 3 poles (-6.283, -37.9478) (-6.2493, -37.9478) (-6.1886, -38.0243) (-5.4059, -39.0476) knots 0 0 0 0 1 1 1 1
  spline S170 degree 3 poles (-5.4059, -39.0476) (-5.1923, -39.3264) (-5.0011, -39.5693) (-4.9809, -39.5873) knots 0 0 0 0 1 1 1 1
  spline S171 degree 3 poles (-4.9809, -39.5873) (-4.9606, -39.6053) (-4.9359, -39.639) (-4.9269, -39.6615) knots 0 0 0 0 1 1 1 1
  spline S172 degree 3 poles (-4.9269, -39.6615) (-4.9201, -39.6818) (-4.9022, -39.6998) (-4.8887, -39.6998) knots 0 0 0 0 1 1 1 1
  spline S173 degree 3 poles (-4.8887, -39.6998) (-4.8774, -39.6998) (-4.8662, -39.7155) (-4.8662, -39.7335) knots 0 0 0 0 1 1 1 1
  spline S174 degree 3 poles (-4.8662, -39.7335) (-4.8662, -39.7515) (-4.8459, -39.7785) (-4.8212, -39.7942) knots 0 0 0 0 1 1 1 1
  spline S175 degree 3 poles (-4.8212, -39.7942) (-4.7964, -39.81) (-4.7762, -39.837) (-4.7762, -39.8527) knots 0 0 0 0 1 1 1 1
  spline S176 degree 3 poles (-4.7762, -39.8527) (-4.7762, -39.8684) (-4.7605, -39.8864) (-4.7425, -39.8932) knots 0 0 0 0 1 1 1 1
  spline S177 degree 3 poles (-4.7425, -39.8932) (-4.7245, -39.9022) (-4.7087, -39.9202) (-4.7087, -39.9382) knots 0 0 0 0 1 1 1 1
  spline S178 degree 3 poles (-4.7087, -39.9382) (-4.7087, -39.9539) (-4.6907, -39.9786) (-4.6705, -39.9899) knots 0 0 0 0 1 1 1 1
  spline S179 degree 3 poles (-4.6705, -39.9899) (-4.648, -40.0034) (-4.639, -40.0146) (-4.648, -40.0146) knots 0 0 0 0 1 1 1 1
  spline S180 degree 3 poles (-4.648, -40.0146) (-4.6638, -40.0146) (-4.5671, -40.1428) (-4.4546, -40.2733) knots 0 0 0 0 1 1 1 1
  spline S181 degree 3 poles (-4.4546, -40.2733) (-4.4321, -40.298) (-4.4006, -40.334) (-4.3849, -40.352) knots 0 0 0 0 1 1 1 1
  spline S182 degree 3 poles (-4.3849, -40.352) (-4.3557, -40.3857) (-4.1308, -40.6758) (-3.1457, -41.9577) knots 0 0 0 0 1 1 1 1
  line L34 (-3.1457, -41.9577) -> (-2.6509, -42.5987)
  line L35 (-2.6509, -42.5987) -> (-0.2513, -42.6009)
  spline S183 degree 3 poles (-0.2513, -42.6009) (2.0854, -42.6009) (2.1506, -42.5987) (2.1506, -42.5582) knots 0 0 0 0 1 1 1 1
  line L36 (-12.5126, -42.511) -> (-12.5126, -42.421)
  line L37 (-12.5126, -42.421) -> (-12.6251, -42.421)
  spline S184 degree 3 poles (-12.6251, -42.421) (-12.9714, -42.421) (-13.6034, -42.3063) (-13.9272, -42.1849) knots 0 0 0 0 1 1 1 1
  spline S185 degree 3 poles (-13.9272, -42.1849) (-14.5479, -41.9532) (-14.8853, -41.6541) (-15.0472, -41.1953) knots 0 0 0 0 1 1 1 1
  line L38 (-15.0472, -41.1953) -> (-15.1102, -41.0154)
  line L39 (-15.1102, -41.0154) -> (-15.1169, -36.603)
  line L40 (-15.1169, -36.603) -> (-15.1214, -32.1882)
  line L41 (-15.1214, -32.1882) -> (-18.4026, -32.1882)
  line L42 (-18.4026, -32.1882) -> (-21.6839, -32.1882)
  line L43 (-21.6839, -32.1882) -> (-21.6974, -32.3749)
  spline S186 degree 3 poles (-21.6974, -32.3749) (-21.7131, -32.5683) (-21.7783, -33.9964) (-21.7783, -34.1066) knots 0 0 0 0 1 1 1 1
  spline S187 degree 3 poles (-21.7783, -34.1066) (-21.7783, -34.1628) (-21.7626, -34.1493) (-21.6389, -33.9852) knots 0 0 0 0 1 1 1 1
  spline S188 degree 3 poles (-21.6389, -33.9852) (-21.2678, -33.4926) (-20.7303, -33.0811) (-20.2378, -32.9124) knots 0 0 0 0 1 1 1 1
  spline S189 degree 3 poles (-20.2378, -32.9124) (-19.9117, -32.8022) (-19.8195, -32.7955) (-18.3712, -32.7955) knots 0 0 0 0 1 1 1 1
  spline S190 degree 3 poles (-18.3712, -32.7955) (-17.6268, -32.7955) (-16.9858, -32.8022) (-16.9476, -32.809) knots 0 0 0 0 1 1 1 1
  spline S191 degree 3 poles (-16.9476, -32.809) (-16.8509, -32.8292) (-16.6979, -32.9641) (-16.6485, -33.0743) knots 0 0 0 0 1 1 1 1
  spline S192 degree 3 poles (-16.6485, -33.0743) (-16.608, -33.162) (-16.6057, -33.2677) (-16.6057, -35.0467) knots 0 0 0 0 1 1 1 1
  spline S193 degree 3 poles (-16.6057, -35.0467) (-16.6057, -36.8391) (-16.608, -36.9291) (-16.6462, -36.9628) knots 0 0 0 0 1 1 1 1
  spline S194 degree 3 poles (-16.6462, -36.9628) (-16.6844, -36.9965) (-16.8171, -37.001) (-18.0968, -37.001) knots 0 0 0 0 1 1 1 1
  spline S195 degree 3 poles (-18.0968, -37.001) (-19.4664, -37.001) (-19.5069, -37.0033) (-19.5294, -37.0438) knots 0 0 0 0 1 1 1 1
  spline S196 degree 3 poles (-19.5294, -37.0438) (-19.5406, -37.0685) (-19.5519, -37.2192) (-19.5519, -37.3811) knots 0 0 0 0 1 1 1 1
  spline S197 degree 3 poles (-19.5519, -37.3811) (-19.5519, -37.6577) (-19.5496, -37.6757) (-19.5024, -37.7072) knots 0 0 0 0 1 1 1 1
  spline S198 degree 3 poles (-19.5024, -37.7072) (-19.4574, -37.7387) (-19.282, -37.7432) (-18.0563, -37.7432) knots 0 0 0 0 1 1 1 1
  spline S199 degree 3 poles (-18.0563, -37.7432) (-16.9993, -37.7432) (-16.653, -37.7499) (-16.6327, -37.7702) knots 0 0 0 0 1 1 1 1
  spline S200 degree 3 poles (-16.6327, -37.7702) (-16.6125, -37.7904) (-16.6057, -38.2694) (-16.6057, -39.7852) knots 0 0 0 0 1 1 1 1
  spline S201 degree 3 poles (-16.6057, -39.7852) (-16.6057, -41.9982) (-16.5967, -41.8655) (-16.7587, -41.9892) knots 0 0 0 0 1 1 1 1
  line L44 (-16.7587, -41.9892) -> (-16.8374, -42.0499)
  line L45 (-16.8374, -42.0499) -> (-18.4589, -42.0567)
  spline S202 degree 3 poles (-18.4589, -42.0567) (-19.9139, -42.0634) (-20.0939, -42.0589) (-20.2221, -42.0252) knots 0 0 0 0 1 1 1 1
  spline S203 degree 3 poles (-20.2221, -42.0252) (-20.4807, -41.9577) (-20.7438, -41.7418) (-20.8675, -41.5012) knots 0 0 0 0 1 1 1 1
  spline S204 degree 3 poles (-20.8675, -41.5012) (-20.899, -41.4382) (-20.917, -41.3865) (-20.9102, -41.3865) knots 0 0 0 0 1 1 1 1
  spline S205 degree 3 poles (-20.9102, -41.3865) (-20.9012, -41.3865) (-20.908, -41.3707) (-20.9237, -41.3528) knots 0 0 0 0 1 1 1 1
  spline S206 degree 3 poles (-20.9237, -41.3528) (-20.9372, -41.3348) (-20.944, -41.31) (-20.9372, -41.2988) knots 0 0 0 0 1 1 1 1
  spline S207 degree 3 poles (-20.9372, -41.2988) (-20.9282, -41.2875) (-20.9305, -41.2718) (-20.9417, -41.265) knots 0 0 0 0 1 1 1 1
  spline S208 degree 3 poles (-20.9417, -41.265) (-20.9507, -41.2605) (-20.962, -41.2111) (-20.9642, -41.1571) knots 0 0 0 0 1 1 1 1
  spline S209 degree 3 poles (-20.9642, -41.1571) (-20.971, -41.0222) (-20.9934, -40.8377) (-21.0069, -40.8198) knots 0 0 0 0 1 1 1 1
  spline S210 degree 3 poles (-21.0069, -40.8198) (-21.0114, -40.8085) (-21.1216, -40.8018) (-21.2521, -40.8018) knots 0 0 0 0 1 1 1 1
  line L46 (-21.2521, -40.8018) -> (-21.4882, -40.8018)
  line L47 (-21.4882, -40.8018) -> (-21.4747, -40.9322)
  spline S211 degree 3 poles (-21.4747, -40.9322) (-21.468, -41.0019) (-21.4477, -41.328) (-21.4297, -41.6564) knots 0 0 0 0 1 1 1 1
  spline S212 degree 3 poles (-21.4297, -41.6564) (-21.4118, -41.9847) (-21.3893, -42.3311) (-21.3825, -42.4278) knots 0 0 0 0 1 1 1 1
  line L48 (-21.3825, -42.4278) -> (-21.369, -42.6009)
  line L49 (-21.369, -42.6009) -> (-16.9408, -42.6009)
  line L50 (-16.9408, -42.6009) -> (-12.5126, -42.6009)
  line L51 (-12.5126, -42.6009) -> (-12.5126, -42.511)
extrude "Extrude6" cut sketch "Sketch5" along normal blind 1 contours S0 S1 S2 S3 S4 S5 S6 S7 S8 S9 S10 L0 L1 S11 S12 S13 S14 S15 S16 S17 S18 S19 L2 L3 L4 L5 S20 S21 | L6 L7 S22 S23 S24 S25 S26 S27 S28 S29 S30 S31 S32 S33 S34 S35 S36 S37 S38 S39 S40 S41 S42 L8 L9 L10 L11 S43 S44 S45 S46 S47 S48 S49 S50 S51 S52 S53 S54 S55 S56 S57 L12 L13 S58 S59 S60 S61 S62 S63 S64 S65 S66 S67 S68 S69 S70 S71 S72 S73 S74 S75 S76 S77 S78 S79 S80 S81 S82 S83 S84 S85 S86 S87 S88 S89 S90 S91 S92 S93 S94 S95 S96 S97 S98 S99 S100 S101 S102 S103 L14 L15 S104 S105 S106 S107 S108 S109 S110 S111 L16 L17 L18 L19 | S130 S131 S132 S133 L20 L21 L22 L23 S134 S135 S136 S137 S138 S139 S140 S141 S142 S143 S144 S145 S146 S147 S148 L24 L25 S149 S150 S151 S152 S153 S154 S155 L26 L27 L28 L29 L30 L31 L32 L33 S156 S157 S158 S159 S160 S161 S162 S163 S164 S165 S166 S167 S168 S169 S170 S171 S172 S173 S174 S175 S176 S177 S178 S179 S180 S181 S182 L34 L35 S183 | L36 L37 S184 S185 L38 L39 L40 L41 L42 L43 S186 S187 S188 S189 S190 S191 S192 S193 S194 S195 S196 S197 S198 S199 S200 S201 L44 L45 S202 S203 S204 S205 S206 S207 S208 S209 S210 L46 L47 S211 S212 L48 L49 L50 L51
equation "d4 = 8 mm - 0.125 mm"
